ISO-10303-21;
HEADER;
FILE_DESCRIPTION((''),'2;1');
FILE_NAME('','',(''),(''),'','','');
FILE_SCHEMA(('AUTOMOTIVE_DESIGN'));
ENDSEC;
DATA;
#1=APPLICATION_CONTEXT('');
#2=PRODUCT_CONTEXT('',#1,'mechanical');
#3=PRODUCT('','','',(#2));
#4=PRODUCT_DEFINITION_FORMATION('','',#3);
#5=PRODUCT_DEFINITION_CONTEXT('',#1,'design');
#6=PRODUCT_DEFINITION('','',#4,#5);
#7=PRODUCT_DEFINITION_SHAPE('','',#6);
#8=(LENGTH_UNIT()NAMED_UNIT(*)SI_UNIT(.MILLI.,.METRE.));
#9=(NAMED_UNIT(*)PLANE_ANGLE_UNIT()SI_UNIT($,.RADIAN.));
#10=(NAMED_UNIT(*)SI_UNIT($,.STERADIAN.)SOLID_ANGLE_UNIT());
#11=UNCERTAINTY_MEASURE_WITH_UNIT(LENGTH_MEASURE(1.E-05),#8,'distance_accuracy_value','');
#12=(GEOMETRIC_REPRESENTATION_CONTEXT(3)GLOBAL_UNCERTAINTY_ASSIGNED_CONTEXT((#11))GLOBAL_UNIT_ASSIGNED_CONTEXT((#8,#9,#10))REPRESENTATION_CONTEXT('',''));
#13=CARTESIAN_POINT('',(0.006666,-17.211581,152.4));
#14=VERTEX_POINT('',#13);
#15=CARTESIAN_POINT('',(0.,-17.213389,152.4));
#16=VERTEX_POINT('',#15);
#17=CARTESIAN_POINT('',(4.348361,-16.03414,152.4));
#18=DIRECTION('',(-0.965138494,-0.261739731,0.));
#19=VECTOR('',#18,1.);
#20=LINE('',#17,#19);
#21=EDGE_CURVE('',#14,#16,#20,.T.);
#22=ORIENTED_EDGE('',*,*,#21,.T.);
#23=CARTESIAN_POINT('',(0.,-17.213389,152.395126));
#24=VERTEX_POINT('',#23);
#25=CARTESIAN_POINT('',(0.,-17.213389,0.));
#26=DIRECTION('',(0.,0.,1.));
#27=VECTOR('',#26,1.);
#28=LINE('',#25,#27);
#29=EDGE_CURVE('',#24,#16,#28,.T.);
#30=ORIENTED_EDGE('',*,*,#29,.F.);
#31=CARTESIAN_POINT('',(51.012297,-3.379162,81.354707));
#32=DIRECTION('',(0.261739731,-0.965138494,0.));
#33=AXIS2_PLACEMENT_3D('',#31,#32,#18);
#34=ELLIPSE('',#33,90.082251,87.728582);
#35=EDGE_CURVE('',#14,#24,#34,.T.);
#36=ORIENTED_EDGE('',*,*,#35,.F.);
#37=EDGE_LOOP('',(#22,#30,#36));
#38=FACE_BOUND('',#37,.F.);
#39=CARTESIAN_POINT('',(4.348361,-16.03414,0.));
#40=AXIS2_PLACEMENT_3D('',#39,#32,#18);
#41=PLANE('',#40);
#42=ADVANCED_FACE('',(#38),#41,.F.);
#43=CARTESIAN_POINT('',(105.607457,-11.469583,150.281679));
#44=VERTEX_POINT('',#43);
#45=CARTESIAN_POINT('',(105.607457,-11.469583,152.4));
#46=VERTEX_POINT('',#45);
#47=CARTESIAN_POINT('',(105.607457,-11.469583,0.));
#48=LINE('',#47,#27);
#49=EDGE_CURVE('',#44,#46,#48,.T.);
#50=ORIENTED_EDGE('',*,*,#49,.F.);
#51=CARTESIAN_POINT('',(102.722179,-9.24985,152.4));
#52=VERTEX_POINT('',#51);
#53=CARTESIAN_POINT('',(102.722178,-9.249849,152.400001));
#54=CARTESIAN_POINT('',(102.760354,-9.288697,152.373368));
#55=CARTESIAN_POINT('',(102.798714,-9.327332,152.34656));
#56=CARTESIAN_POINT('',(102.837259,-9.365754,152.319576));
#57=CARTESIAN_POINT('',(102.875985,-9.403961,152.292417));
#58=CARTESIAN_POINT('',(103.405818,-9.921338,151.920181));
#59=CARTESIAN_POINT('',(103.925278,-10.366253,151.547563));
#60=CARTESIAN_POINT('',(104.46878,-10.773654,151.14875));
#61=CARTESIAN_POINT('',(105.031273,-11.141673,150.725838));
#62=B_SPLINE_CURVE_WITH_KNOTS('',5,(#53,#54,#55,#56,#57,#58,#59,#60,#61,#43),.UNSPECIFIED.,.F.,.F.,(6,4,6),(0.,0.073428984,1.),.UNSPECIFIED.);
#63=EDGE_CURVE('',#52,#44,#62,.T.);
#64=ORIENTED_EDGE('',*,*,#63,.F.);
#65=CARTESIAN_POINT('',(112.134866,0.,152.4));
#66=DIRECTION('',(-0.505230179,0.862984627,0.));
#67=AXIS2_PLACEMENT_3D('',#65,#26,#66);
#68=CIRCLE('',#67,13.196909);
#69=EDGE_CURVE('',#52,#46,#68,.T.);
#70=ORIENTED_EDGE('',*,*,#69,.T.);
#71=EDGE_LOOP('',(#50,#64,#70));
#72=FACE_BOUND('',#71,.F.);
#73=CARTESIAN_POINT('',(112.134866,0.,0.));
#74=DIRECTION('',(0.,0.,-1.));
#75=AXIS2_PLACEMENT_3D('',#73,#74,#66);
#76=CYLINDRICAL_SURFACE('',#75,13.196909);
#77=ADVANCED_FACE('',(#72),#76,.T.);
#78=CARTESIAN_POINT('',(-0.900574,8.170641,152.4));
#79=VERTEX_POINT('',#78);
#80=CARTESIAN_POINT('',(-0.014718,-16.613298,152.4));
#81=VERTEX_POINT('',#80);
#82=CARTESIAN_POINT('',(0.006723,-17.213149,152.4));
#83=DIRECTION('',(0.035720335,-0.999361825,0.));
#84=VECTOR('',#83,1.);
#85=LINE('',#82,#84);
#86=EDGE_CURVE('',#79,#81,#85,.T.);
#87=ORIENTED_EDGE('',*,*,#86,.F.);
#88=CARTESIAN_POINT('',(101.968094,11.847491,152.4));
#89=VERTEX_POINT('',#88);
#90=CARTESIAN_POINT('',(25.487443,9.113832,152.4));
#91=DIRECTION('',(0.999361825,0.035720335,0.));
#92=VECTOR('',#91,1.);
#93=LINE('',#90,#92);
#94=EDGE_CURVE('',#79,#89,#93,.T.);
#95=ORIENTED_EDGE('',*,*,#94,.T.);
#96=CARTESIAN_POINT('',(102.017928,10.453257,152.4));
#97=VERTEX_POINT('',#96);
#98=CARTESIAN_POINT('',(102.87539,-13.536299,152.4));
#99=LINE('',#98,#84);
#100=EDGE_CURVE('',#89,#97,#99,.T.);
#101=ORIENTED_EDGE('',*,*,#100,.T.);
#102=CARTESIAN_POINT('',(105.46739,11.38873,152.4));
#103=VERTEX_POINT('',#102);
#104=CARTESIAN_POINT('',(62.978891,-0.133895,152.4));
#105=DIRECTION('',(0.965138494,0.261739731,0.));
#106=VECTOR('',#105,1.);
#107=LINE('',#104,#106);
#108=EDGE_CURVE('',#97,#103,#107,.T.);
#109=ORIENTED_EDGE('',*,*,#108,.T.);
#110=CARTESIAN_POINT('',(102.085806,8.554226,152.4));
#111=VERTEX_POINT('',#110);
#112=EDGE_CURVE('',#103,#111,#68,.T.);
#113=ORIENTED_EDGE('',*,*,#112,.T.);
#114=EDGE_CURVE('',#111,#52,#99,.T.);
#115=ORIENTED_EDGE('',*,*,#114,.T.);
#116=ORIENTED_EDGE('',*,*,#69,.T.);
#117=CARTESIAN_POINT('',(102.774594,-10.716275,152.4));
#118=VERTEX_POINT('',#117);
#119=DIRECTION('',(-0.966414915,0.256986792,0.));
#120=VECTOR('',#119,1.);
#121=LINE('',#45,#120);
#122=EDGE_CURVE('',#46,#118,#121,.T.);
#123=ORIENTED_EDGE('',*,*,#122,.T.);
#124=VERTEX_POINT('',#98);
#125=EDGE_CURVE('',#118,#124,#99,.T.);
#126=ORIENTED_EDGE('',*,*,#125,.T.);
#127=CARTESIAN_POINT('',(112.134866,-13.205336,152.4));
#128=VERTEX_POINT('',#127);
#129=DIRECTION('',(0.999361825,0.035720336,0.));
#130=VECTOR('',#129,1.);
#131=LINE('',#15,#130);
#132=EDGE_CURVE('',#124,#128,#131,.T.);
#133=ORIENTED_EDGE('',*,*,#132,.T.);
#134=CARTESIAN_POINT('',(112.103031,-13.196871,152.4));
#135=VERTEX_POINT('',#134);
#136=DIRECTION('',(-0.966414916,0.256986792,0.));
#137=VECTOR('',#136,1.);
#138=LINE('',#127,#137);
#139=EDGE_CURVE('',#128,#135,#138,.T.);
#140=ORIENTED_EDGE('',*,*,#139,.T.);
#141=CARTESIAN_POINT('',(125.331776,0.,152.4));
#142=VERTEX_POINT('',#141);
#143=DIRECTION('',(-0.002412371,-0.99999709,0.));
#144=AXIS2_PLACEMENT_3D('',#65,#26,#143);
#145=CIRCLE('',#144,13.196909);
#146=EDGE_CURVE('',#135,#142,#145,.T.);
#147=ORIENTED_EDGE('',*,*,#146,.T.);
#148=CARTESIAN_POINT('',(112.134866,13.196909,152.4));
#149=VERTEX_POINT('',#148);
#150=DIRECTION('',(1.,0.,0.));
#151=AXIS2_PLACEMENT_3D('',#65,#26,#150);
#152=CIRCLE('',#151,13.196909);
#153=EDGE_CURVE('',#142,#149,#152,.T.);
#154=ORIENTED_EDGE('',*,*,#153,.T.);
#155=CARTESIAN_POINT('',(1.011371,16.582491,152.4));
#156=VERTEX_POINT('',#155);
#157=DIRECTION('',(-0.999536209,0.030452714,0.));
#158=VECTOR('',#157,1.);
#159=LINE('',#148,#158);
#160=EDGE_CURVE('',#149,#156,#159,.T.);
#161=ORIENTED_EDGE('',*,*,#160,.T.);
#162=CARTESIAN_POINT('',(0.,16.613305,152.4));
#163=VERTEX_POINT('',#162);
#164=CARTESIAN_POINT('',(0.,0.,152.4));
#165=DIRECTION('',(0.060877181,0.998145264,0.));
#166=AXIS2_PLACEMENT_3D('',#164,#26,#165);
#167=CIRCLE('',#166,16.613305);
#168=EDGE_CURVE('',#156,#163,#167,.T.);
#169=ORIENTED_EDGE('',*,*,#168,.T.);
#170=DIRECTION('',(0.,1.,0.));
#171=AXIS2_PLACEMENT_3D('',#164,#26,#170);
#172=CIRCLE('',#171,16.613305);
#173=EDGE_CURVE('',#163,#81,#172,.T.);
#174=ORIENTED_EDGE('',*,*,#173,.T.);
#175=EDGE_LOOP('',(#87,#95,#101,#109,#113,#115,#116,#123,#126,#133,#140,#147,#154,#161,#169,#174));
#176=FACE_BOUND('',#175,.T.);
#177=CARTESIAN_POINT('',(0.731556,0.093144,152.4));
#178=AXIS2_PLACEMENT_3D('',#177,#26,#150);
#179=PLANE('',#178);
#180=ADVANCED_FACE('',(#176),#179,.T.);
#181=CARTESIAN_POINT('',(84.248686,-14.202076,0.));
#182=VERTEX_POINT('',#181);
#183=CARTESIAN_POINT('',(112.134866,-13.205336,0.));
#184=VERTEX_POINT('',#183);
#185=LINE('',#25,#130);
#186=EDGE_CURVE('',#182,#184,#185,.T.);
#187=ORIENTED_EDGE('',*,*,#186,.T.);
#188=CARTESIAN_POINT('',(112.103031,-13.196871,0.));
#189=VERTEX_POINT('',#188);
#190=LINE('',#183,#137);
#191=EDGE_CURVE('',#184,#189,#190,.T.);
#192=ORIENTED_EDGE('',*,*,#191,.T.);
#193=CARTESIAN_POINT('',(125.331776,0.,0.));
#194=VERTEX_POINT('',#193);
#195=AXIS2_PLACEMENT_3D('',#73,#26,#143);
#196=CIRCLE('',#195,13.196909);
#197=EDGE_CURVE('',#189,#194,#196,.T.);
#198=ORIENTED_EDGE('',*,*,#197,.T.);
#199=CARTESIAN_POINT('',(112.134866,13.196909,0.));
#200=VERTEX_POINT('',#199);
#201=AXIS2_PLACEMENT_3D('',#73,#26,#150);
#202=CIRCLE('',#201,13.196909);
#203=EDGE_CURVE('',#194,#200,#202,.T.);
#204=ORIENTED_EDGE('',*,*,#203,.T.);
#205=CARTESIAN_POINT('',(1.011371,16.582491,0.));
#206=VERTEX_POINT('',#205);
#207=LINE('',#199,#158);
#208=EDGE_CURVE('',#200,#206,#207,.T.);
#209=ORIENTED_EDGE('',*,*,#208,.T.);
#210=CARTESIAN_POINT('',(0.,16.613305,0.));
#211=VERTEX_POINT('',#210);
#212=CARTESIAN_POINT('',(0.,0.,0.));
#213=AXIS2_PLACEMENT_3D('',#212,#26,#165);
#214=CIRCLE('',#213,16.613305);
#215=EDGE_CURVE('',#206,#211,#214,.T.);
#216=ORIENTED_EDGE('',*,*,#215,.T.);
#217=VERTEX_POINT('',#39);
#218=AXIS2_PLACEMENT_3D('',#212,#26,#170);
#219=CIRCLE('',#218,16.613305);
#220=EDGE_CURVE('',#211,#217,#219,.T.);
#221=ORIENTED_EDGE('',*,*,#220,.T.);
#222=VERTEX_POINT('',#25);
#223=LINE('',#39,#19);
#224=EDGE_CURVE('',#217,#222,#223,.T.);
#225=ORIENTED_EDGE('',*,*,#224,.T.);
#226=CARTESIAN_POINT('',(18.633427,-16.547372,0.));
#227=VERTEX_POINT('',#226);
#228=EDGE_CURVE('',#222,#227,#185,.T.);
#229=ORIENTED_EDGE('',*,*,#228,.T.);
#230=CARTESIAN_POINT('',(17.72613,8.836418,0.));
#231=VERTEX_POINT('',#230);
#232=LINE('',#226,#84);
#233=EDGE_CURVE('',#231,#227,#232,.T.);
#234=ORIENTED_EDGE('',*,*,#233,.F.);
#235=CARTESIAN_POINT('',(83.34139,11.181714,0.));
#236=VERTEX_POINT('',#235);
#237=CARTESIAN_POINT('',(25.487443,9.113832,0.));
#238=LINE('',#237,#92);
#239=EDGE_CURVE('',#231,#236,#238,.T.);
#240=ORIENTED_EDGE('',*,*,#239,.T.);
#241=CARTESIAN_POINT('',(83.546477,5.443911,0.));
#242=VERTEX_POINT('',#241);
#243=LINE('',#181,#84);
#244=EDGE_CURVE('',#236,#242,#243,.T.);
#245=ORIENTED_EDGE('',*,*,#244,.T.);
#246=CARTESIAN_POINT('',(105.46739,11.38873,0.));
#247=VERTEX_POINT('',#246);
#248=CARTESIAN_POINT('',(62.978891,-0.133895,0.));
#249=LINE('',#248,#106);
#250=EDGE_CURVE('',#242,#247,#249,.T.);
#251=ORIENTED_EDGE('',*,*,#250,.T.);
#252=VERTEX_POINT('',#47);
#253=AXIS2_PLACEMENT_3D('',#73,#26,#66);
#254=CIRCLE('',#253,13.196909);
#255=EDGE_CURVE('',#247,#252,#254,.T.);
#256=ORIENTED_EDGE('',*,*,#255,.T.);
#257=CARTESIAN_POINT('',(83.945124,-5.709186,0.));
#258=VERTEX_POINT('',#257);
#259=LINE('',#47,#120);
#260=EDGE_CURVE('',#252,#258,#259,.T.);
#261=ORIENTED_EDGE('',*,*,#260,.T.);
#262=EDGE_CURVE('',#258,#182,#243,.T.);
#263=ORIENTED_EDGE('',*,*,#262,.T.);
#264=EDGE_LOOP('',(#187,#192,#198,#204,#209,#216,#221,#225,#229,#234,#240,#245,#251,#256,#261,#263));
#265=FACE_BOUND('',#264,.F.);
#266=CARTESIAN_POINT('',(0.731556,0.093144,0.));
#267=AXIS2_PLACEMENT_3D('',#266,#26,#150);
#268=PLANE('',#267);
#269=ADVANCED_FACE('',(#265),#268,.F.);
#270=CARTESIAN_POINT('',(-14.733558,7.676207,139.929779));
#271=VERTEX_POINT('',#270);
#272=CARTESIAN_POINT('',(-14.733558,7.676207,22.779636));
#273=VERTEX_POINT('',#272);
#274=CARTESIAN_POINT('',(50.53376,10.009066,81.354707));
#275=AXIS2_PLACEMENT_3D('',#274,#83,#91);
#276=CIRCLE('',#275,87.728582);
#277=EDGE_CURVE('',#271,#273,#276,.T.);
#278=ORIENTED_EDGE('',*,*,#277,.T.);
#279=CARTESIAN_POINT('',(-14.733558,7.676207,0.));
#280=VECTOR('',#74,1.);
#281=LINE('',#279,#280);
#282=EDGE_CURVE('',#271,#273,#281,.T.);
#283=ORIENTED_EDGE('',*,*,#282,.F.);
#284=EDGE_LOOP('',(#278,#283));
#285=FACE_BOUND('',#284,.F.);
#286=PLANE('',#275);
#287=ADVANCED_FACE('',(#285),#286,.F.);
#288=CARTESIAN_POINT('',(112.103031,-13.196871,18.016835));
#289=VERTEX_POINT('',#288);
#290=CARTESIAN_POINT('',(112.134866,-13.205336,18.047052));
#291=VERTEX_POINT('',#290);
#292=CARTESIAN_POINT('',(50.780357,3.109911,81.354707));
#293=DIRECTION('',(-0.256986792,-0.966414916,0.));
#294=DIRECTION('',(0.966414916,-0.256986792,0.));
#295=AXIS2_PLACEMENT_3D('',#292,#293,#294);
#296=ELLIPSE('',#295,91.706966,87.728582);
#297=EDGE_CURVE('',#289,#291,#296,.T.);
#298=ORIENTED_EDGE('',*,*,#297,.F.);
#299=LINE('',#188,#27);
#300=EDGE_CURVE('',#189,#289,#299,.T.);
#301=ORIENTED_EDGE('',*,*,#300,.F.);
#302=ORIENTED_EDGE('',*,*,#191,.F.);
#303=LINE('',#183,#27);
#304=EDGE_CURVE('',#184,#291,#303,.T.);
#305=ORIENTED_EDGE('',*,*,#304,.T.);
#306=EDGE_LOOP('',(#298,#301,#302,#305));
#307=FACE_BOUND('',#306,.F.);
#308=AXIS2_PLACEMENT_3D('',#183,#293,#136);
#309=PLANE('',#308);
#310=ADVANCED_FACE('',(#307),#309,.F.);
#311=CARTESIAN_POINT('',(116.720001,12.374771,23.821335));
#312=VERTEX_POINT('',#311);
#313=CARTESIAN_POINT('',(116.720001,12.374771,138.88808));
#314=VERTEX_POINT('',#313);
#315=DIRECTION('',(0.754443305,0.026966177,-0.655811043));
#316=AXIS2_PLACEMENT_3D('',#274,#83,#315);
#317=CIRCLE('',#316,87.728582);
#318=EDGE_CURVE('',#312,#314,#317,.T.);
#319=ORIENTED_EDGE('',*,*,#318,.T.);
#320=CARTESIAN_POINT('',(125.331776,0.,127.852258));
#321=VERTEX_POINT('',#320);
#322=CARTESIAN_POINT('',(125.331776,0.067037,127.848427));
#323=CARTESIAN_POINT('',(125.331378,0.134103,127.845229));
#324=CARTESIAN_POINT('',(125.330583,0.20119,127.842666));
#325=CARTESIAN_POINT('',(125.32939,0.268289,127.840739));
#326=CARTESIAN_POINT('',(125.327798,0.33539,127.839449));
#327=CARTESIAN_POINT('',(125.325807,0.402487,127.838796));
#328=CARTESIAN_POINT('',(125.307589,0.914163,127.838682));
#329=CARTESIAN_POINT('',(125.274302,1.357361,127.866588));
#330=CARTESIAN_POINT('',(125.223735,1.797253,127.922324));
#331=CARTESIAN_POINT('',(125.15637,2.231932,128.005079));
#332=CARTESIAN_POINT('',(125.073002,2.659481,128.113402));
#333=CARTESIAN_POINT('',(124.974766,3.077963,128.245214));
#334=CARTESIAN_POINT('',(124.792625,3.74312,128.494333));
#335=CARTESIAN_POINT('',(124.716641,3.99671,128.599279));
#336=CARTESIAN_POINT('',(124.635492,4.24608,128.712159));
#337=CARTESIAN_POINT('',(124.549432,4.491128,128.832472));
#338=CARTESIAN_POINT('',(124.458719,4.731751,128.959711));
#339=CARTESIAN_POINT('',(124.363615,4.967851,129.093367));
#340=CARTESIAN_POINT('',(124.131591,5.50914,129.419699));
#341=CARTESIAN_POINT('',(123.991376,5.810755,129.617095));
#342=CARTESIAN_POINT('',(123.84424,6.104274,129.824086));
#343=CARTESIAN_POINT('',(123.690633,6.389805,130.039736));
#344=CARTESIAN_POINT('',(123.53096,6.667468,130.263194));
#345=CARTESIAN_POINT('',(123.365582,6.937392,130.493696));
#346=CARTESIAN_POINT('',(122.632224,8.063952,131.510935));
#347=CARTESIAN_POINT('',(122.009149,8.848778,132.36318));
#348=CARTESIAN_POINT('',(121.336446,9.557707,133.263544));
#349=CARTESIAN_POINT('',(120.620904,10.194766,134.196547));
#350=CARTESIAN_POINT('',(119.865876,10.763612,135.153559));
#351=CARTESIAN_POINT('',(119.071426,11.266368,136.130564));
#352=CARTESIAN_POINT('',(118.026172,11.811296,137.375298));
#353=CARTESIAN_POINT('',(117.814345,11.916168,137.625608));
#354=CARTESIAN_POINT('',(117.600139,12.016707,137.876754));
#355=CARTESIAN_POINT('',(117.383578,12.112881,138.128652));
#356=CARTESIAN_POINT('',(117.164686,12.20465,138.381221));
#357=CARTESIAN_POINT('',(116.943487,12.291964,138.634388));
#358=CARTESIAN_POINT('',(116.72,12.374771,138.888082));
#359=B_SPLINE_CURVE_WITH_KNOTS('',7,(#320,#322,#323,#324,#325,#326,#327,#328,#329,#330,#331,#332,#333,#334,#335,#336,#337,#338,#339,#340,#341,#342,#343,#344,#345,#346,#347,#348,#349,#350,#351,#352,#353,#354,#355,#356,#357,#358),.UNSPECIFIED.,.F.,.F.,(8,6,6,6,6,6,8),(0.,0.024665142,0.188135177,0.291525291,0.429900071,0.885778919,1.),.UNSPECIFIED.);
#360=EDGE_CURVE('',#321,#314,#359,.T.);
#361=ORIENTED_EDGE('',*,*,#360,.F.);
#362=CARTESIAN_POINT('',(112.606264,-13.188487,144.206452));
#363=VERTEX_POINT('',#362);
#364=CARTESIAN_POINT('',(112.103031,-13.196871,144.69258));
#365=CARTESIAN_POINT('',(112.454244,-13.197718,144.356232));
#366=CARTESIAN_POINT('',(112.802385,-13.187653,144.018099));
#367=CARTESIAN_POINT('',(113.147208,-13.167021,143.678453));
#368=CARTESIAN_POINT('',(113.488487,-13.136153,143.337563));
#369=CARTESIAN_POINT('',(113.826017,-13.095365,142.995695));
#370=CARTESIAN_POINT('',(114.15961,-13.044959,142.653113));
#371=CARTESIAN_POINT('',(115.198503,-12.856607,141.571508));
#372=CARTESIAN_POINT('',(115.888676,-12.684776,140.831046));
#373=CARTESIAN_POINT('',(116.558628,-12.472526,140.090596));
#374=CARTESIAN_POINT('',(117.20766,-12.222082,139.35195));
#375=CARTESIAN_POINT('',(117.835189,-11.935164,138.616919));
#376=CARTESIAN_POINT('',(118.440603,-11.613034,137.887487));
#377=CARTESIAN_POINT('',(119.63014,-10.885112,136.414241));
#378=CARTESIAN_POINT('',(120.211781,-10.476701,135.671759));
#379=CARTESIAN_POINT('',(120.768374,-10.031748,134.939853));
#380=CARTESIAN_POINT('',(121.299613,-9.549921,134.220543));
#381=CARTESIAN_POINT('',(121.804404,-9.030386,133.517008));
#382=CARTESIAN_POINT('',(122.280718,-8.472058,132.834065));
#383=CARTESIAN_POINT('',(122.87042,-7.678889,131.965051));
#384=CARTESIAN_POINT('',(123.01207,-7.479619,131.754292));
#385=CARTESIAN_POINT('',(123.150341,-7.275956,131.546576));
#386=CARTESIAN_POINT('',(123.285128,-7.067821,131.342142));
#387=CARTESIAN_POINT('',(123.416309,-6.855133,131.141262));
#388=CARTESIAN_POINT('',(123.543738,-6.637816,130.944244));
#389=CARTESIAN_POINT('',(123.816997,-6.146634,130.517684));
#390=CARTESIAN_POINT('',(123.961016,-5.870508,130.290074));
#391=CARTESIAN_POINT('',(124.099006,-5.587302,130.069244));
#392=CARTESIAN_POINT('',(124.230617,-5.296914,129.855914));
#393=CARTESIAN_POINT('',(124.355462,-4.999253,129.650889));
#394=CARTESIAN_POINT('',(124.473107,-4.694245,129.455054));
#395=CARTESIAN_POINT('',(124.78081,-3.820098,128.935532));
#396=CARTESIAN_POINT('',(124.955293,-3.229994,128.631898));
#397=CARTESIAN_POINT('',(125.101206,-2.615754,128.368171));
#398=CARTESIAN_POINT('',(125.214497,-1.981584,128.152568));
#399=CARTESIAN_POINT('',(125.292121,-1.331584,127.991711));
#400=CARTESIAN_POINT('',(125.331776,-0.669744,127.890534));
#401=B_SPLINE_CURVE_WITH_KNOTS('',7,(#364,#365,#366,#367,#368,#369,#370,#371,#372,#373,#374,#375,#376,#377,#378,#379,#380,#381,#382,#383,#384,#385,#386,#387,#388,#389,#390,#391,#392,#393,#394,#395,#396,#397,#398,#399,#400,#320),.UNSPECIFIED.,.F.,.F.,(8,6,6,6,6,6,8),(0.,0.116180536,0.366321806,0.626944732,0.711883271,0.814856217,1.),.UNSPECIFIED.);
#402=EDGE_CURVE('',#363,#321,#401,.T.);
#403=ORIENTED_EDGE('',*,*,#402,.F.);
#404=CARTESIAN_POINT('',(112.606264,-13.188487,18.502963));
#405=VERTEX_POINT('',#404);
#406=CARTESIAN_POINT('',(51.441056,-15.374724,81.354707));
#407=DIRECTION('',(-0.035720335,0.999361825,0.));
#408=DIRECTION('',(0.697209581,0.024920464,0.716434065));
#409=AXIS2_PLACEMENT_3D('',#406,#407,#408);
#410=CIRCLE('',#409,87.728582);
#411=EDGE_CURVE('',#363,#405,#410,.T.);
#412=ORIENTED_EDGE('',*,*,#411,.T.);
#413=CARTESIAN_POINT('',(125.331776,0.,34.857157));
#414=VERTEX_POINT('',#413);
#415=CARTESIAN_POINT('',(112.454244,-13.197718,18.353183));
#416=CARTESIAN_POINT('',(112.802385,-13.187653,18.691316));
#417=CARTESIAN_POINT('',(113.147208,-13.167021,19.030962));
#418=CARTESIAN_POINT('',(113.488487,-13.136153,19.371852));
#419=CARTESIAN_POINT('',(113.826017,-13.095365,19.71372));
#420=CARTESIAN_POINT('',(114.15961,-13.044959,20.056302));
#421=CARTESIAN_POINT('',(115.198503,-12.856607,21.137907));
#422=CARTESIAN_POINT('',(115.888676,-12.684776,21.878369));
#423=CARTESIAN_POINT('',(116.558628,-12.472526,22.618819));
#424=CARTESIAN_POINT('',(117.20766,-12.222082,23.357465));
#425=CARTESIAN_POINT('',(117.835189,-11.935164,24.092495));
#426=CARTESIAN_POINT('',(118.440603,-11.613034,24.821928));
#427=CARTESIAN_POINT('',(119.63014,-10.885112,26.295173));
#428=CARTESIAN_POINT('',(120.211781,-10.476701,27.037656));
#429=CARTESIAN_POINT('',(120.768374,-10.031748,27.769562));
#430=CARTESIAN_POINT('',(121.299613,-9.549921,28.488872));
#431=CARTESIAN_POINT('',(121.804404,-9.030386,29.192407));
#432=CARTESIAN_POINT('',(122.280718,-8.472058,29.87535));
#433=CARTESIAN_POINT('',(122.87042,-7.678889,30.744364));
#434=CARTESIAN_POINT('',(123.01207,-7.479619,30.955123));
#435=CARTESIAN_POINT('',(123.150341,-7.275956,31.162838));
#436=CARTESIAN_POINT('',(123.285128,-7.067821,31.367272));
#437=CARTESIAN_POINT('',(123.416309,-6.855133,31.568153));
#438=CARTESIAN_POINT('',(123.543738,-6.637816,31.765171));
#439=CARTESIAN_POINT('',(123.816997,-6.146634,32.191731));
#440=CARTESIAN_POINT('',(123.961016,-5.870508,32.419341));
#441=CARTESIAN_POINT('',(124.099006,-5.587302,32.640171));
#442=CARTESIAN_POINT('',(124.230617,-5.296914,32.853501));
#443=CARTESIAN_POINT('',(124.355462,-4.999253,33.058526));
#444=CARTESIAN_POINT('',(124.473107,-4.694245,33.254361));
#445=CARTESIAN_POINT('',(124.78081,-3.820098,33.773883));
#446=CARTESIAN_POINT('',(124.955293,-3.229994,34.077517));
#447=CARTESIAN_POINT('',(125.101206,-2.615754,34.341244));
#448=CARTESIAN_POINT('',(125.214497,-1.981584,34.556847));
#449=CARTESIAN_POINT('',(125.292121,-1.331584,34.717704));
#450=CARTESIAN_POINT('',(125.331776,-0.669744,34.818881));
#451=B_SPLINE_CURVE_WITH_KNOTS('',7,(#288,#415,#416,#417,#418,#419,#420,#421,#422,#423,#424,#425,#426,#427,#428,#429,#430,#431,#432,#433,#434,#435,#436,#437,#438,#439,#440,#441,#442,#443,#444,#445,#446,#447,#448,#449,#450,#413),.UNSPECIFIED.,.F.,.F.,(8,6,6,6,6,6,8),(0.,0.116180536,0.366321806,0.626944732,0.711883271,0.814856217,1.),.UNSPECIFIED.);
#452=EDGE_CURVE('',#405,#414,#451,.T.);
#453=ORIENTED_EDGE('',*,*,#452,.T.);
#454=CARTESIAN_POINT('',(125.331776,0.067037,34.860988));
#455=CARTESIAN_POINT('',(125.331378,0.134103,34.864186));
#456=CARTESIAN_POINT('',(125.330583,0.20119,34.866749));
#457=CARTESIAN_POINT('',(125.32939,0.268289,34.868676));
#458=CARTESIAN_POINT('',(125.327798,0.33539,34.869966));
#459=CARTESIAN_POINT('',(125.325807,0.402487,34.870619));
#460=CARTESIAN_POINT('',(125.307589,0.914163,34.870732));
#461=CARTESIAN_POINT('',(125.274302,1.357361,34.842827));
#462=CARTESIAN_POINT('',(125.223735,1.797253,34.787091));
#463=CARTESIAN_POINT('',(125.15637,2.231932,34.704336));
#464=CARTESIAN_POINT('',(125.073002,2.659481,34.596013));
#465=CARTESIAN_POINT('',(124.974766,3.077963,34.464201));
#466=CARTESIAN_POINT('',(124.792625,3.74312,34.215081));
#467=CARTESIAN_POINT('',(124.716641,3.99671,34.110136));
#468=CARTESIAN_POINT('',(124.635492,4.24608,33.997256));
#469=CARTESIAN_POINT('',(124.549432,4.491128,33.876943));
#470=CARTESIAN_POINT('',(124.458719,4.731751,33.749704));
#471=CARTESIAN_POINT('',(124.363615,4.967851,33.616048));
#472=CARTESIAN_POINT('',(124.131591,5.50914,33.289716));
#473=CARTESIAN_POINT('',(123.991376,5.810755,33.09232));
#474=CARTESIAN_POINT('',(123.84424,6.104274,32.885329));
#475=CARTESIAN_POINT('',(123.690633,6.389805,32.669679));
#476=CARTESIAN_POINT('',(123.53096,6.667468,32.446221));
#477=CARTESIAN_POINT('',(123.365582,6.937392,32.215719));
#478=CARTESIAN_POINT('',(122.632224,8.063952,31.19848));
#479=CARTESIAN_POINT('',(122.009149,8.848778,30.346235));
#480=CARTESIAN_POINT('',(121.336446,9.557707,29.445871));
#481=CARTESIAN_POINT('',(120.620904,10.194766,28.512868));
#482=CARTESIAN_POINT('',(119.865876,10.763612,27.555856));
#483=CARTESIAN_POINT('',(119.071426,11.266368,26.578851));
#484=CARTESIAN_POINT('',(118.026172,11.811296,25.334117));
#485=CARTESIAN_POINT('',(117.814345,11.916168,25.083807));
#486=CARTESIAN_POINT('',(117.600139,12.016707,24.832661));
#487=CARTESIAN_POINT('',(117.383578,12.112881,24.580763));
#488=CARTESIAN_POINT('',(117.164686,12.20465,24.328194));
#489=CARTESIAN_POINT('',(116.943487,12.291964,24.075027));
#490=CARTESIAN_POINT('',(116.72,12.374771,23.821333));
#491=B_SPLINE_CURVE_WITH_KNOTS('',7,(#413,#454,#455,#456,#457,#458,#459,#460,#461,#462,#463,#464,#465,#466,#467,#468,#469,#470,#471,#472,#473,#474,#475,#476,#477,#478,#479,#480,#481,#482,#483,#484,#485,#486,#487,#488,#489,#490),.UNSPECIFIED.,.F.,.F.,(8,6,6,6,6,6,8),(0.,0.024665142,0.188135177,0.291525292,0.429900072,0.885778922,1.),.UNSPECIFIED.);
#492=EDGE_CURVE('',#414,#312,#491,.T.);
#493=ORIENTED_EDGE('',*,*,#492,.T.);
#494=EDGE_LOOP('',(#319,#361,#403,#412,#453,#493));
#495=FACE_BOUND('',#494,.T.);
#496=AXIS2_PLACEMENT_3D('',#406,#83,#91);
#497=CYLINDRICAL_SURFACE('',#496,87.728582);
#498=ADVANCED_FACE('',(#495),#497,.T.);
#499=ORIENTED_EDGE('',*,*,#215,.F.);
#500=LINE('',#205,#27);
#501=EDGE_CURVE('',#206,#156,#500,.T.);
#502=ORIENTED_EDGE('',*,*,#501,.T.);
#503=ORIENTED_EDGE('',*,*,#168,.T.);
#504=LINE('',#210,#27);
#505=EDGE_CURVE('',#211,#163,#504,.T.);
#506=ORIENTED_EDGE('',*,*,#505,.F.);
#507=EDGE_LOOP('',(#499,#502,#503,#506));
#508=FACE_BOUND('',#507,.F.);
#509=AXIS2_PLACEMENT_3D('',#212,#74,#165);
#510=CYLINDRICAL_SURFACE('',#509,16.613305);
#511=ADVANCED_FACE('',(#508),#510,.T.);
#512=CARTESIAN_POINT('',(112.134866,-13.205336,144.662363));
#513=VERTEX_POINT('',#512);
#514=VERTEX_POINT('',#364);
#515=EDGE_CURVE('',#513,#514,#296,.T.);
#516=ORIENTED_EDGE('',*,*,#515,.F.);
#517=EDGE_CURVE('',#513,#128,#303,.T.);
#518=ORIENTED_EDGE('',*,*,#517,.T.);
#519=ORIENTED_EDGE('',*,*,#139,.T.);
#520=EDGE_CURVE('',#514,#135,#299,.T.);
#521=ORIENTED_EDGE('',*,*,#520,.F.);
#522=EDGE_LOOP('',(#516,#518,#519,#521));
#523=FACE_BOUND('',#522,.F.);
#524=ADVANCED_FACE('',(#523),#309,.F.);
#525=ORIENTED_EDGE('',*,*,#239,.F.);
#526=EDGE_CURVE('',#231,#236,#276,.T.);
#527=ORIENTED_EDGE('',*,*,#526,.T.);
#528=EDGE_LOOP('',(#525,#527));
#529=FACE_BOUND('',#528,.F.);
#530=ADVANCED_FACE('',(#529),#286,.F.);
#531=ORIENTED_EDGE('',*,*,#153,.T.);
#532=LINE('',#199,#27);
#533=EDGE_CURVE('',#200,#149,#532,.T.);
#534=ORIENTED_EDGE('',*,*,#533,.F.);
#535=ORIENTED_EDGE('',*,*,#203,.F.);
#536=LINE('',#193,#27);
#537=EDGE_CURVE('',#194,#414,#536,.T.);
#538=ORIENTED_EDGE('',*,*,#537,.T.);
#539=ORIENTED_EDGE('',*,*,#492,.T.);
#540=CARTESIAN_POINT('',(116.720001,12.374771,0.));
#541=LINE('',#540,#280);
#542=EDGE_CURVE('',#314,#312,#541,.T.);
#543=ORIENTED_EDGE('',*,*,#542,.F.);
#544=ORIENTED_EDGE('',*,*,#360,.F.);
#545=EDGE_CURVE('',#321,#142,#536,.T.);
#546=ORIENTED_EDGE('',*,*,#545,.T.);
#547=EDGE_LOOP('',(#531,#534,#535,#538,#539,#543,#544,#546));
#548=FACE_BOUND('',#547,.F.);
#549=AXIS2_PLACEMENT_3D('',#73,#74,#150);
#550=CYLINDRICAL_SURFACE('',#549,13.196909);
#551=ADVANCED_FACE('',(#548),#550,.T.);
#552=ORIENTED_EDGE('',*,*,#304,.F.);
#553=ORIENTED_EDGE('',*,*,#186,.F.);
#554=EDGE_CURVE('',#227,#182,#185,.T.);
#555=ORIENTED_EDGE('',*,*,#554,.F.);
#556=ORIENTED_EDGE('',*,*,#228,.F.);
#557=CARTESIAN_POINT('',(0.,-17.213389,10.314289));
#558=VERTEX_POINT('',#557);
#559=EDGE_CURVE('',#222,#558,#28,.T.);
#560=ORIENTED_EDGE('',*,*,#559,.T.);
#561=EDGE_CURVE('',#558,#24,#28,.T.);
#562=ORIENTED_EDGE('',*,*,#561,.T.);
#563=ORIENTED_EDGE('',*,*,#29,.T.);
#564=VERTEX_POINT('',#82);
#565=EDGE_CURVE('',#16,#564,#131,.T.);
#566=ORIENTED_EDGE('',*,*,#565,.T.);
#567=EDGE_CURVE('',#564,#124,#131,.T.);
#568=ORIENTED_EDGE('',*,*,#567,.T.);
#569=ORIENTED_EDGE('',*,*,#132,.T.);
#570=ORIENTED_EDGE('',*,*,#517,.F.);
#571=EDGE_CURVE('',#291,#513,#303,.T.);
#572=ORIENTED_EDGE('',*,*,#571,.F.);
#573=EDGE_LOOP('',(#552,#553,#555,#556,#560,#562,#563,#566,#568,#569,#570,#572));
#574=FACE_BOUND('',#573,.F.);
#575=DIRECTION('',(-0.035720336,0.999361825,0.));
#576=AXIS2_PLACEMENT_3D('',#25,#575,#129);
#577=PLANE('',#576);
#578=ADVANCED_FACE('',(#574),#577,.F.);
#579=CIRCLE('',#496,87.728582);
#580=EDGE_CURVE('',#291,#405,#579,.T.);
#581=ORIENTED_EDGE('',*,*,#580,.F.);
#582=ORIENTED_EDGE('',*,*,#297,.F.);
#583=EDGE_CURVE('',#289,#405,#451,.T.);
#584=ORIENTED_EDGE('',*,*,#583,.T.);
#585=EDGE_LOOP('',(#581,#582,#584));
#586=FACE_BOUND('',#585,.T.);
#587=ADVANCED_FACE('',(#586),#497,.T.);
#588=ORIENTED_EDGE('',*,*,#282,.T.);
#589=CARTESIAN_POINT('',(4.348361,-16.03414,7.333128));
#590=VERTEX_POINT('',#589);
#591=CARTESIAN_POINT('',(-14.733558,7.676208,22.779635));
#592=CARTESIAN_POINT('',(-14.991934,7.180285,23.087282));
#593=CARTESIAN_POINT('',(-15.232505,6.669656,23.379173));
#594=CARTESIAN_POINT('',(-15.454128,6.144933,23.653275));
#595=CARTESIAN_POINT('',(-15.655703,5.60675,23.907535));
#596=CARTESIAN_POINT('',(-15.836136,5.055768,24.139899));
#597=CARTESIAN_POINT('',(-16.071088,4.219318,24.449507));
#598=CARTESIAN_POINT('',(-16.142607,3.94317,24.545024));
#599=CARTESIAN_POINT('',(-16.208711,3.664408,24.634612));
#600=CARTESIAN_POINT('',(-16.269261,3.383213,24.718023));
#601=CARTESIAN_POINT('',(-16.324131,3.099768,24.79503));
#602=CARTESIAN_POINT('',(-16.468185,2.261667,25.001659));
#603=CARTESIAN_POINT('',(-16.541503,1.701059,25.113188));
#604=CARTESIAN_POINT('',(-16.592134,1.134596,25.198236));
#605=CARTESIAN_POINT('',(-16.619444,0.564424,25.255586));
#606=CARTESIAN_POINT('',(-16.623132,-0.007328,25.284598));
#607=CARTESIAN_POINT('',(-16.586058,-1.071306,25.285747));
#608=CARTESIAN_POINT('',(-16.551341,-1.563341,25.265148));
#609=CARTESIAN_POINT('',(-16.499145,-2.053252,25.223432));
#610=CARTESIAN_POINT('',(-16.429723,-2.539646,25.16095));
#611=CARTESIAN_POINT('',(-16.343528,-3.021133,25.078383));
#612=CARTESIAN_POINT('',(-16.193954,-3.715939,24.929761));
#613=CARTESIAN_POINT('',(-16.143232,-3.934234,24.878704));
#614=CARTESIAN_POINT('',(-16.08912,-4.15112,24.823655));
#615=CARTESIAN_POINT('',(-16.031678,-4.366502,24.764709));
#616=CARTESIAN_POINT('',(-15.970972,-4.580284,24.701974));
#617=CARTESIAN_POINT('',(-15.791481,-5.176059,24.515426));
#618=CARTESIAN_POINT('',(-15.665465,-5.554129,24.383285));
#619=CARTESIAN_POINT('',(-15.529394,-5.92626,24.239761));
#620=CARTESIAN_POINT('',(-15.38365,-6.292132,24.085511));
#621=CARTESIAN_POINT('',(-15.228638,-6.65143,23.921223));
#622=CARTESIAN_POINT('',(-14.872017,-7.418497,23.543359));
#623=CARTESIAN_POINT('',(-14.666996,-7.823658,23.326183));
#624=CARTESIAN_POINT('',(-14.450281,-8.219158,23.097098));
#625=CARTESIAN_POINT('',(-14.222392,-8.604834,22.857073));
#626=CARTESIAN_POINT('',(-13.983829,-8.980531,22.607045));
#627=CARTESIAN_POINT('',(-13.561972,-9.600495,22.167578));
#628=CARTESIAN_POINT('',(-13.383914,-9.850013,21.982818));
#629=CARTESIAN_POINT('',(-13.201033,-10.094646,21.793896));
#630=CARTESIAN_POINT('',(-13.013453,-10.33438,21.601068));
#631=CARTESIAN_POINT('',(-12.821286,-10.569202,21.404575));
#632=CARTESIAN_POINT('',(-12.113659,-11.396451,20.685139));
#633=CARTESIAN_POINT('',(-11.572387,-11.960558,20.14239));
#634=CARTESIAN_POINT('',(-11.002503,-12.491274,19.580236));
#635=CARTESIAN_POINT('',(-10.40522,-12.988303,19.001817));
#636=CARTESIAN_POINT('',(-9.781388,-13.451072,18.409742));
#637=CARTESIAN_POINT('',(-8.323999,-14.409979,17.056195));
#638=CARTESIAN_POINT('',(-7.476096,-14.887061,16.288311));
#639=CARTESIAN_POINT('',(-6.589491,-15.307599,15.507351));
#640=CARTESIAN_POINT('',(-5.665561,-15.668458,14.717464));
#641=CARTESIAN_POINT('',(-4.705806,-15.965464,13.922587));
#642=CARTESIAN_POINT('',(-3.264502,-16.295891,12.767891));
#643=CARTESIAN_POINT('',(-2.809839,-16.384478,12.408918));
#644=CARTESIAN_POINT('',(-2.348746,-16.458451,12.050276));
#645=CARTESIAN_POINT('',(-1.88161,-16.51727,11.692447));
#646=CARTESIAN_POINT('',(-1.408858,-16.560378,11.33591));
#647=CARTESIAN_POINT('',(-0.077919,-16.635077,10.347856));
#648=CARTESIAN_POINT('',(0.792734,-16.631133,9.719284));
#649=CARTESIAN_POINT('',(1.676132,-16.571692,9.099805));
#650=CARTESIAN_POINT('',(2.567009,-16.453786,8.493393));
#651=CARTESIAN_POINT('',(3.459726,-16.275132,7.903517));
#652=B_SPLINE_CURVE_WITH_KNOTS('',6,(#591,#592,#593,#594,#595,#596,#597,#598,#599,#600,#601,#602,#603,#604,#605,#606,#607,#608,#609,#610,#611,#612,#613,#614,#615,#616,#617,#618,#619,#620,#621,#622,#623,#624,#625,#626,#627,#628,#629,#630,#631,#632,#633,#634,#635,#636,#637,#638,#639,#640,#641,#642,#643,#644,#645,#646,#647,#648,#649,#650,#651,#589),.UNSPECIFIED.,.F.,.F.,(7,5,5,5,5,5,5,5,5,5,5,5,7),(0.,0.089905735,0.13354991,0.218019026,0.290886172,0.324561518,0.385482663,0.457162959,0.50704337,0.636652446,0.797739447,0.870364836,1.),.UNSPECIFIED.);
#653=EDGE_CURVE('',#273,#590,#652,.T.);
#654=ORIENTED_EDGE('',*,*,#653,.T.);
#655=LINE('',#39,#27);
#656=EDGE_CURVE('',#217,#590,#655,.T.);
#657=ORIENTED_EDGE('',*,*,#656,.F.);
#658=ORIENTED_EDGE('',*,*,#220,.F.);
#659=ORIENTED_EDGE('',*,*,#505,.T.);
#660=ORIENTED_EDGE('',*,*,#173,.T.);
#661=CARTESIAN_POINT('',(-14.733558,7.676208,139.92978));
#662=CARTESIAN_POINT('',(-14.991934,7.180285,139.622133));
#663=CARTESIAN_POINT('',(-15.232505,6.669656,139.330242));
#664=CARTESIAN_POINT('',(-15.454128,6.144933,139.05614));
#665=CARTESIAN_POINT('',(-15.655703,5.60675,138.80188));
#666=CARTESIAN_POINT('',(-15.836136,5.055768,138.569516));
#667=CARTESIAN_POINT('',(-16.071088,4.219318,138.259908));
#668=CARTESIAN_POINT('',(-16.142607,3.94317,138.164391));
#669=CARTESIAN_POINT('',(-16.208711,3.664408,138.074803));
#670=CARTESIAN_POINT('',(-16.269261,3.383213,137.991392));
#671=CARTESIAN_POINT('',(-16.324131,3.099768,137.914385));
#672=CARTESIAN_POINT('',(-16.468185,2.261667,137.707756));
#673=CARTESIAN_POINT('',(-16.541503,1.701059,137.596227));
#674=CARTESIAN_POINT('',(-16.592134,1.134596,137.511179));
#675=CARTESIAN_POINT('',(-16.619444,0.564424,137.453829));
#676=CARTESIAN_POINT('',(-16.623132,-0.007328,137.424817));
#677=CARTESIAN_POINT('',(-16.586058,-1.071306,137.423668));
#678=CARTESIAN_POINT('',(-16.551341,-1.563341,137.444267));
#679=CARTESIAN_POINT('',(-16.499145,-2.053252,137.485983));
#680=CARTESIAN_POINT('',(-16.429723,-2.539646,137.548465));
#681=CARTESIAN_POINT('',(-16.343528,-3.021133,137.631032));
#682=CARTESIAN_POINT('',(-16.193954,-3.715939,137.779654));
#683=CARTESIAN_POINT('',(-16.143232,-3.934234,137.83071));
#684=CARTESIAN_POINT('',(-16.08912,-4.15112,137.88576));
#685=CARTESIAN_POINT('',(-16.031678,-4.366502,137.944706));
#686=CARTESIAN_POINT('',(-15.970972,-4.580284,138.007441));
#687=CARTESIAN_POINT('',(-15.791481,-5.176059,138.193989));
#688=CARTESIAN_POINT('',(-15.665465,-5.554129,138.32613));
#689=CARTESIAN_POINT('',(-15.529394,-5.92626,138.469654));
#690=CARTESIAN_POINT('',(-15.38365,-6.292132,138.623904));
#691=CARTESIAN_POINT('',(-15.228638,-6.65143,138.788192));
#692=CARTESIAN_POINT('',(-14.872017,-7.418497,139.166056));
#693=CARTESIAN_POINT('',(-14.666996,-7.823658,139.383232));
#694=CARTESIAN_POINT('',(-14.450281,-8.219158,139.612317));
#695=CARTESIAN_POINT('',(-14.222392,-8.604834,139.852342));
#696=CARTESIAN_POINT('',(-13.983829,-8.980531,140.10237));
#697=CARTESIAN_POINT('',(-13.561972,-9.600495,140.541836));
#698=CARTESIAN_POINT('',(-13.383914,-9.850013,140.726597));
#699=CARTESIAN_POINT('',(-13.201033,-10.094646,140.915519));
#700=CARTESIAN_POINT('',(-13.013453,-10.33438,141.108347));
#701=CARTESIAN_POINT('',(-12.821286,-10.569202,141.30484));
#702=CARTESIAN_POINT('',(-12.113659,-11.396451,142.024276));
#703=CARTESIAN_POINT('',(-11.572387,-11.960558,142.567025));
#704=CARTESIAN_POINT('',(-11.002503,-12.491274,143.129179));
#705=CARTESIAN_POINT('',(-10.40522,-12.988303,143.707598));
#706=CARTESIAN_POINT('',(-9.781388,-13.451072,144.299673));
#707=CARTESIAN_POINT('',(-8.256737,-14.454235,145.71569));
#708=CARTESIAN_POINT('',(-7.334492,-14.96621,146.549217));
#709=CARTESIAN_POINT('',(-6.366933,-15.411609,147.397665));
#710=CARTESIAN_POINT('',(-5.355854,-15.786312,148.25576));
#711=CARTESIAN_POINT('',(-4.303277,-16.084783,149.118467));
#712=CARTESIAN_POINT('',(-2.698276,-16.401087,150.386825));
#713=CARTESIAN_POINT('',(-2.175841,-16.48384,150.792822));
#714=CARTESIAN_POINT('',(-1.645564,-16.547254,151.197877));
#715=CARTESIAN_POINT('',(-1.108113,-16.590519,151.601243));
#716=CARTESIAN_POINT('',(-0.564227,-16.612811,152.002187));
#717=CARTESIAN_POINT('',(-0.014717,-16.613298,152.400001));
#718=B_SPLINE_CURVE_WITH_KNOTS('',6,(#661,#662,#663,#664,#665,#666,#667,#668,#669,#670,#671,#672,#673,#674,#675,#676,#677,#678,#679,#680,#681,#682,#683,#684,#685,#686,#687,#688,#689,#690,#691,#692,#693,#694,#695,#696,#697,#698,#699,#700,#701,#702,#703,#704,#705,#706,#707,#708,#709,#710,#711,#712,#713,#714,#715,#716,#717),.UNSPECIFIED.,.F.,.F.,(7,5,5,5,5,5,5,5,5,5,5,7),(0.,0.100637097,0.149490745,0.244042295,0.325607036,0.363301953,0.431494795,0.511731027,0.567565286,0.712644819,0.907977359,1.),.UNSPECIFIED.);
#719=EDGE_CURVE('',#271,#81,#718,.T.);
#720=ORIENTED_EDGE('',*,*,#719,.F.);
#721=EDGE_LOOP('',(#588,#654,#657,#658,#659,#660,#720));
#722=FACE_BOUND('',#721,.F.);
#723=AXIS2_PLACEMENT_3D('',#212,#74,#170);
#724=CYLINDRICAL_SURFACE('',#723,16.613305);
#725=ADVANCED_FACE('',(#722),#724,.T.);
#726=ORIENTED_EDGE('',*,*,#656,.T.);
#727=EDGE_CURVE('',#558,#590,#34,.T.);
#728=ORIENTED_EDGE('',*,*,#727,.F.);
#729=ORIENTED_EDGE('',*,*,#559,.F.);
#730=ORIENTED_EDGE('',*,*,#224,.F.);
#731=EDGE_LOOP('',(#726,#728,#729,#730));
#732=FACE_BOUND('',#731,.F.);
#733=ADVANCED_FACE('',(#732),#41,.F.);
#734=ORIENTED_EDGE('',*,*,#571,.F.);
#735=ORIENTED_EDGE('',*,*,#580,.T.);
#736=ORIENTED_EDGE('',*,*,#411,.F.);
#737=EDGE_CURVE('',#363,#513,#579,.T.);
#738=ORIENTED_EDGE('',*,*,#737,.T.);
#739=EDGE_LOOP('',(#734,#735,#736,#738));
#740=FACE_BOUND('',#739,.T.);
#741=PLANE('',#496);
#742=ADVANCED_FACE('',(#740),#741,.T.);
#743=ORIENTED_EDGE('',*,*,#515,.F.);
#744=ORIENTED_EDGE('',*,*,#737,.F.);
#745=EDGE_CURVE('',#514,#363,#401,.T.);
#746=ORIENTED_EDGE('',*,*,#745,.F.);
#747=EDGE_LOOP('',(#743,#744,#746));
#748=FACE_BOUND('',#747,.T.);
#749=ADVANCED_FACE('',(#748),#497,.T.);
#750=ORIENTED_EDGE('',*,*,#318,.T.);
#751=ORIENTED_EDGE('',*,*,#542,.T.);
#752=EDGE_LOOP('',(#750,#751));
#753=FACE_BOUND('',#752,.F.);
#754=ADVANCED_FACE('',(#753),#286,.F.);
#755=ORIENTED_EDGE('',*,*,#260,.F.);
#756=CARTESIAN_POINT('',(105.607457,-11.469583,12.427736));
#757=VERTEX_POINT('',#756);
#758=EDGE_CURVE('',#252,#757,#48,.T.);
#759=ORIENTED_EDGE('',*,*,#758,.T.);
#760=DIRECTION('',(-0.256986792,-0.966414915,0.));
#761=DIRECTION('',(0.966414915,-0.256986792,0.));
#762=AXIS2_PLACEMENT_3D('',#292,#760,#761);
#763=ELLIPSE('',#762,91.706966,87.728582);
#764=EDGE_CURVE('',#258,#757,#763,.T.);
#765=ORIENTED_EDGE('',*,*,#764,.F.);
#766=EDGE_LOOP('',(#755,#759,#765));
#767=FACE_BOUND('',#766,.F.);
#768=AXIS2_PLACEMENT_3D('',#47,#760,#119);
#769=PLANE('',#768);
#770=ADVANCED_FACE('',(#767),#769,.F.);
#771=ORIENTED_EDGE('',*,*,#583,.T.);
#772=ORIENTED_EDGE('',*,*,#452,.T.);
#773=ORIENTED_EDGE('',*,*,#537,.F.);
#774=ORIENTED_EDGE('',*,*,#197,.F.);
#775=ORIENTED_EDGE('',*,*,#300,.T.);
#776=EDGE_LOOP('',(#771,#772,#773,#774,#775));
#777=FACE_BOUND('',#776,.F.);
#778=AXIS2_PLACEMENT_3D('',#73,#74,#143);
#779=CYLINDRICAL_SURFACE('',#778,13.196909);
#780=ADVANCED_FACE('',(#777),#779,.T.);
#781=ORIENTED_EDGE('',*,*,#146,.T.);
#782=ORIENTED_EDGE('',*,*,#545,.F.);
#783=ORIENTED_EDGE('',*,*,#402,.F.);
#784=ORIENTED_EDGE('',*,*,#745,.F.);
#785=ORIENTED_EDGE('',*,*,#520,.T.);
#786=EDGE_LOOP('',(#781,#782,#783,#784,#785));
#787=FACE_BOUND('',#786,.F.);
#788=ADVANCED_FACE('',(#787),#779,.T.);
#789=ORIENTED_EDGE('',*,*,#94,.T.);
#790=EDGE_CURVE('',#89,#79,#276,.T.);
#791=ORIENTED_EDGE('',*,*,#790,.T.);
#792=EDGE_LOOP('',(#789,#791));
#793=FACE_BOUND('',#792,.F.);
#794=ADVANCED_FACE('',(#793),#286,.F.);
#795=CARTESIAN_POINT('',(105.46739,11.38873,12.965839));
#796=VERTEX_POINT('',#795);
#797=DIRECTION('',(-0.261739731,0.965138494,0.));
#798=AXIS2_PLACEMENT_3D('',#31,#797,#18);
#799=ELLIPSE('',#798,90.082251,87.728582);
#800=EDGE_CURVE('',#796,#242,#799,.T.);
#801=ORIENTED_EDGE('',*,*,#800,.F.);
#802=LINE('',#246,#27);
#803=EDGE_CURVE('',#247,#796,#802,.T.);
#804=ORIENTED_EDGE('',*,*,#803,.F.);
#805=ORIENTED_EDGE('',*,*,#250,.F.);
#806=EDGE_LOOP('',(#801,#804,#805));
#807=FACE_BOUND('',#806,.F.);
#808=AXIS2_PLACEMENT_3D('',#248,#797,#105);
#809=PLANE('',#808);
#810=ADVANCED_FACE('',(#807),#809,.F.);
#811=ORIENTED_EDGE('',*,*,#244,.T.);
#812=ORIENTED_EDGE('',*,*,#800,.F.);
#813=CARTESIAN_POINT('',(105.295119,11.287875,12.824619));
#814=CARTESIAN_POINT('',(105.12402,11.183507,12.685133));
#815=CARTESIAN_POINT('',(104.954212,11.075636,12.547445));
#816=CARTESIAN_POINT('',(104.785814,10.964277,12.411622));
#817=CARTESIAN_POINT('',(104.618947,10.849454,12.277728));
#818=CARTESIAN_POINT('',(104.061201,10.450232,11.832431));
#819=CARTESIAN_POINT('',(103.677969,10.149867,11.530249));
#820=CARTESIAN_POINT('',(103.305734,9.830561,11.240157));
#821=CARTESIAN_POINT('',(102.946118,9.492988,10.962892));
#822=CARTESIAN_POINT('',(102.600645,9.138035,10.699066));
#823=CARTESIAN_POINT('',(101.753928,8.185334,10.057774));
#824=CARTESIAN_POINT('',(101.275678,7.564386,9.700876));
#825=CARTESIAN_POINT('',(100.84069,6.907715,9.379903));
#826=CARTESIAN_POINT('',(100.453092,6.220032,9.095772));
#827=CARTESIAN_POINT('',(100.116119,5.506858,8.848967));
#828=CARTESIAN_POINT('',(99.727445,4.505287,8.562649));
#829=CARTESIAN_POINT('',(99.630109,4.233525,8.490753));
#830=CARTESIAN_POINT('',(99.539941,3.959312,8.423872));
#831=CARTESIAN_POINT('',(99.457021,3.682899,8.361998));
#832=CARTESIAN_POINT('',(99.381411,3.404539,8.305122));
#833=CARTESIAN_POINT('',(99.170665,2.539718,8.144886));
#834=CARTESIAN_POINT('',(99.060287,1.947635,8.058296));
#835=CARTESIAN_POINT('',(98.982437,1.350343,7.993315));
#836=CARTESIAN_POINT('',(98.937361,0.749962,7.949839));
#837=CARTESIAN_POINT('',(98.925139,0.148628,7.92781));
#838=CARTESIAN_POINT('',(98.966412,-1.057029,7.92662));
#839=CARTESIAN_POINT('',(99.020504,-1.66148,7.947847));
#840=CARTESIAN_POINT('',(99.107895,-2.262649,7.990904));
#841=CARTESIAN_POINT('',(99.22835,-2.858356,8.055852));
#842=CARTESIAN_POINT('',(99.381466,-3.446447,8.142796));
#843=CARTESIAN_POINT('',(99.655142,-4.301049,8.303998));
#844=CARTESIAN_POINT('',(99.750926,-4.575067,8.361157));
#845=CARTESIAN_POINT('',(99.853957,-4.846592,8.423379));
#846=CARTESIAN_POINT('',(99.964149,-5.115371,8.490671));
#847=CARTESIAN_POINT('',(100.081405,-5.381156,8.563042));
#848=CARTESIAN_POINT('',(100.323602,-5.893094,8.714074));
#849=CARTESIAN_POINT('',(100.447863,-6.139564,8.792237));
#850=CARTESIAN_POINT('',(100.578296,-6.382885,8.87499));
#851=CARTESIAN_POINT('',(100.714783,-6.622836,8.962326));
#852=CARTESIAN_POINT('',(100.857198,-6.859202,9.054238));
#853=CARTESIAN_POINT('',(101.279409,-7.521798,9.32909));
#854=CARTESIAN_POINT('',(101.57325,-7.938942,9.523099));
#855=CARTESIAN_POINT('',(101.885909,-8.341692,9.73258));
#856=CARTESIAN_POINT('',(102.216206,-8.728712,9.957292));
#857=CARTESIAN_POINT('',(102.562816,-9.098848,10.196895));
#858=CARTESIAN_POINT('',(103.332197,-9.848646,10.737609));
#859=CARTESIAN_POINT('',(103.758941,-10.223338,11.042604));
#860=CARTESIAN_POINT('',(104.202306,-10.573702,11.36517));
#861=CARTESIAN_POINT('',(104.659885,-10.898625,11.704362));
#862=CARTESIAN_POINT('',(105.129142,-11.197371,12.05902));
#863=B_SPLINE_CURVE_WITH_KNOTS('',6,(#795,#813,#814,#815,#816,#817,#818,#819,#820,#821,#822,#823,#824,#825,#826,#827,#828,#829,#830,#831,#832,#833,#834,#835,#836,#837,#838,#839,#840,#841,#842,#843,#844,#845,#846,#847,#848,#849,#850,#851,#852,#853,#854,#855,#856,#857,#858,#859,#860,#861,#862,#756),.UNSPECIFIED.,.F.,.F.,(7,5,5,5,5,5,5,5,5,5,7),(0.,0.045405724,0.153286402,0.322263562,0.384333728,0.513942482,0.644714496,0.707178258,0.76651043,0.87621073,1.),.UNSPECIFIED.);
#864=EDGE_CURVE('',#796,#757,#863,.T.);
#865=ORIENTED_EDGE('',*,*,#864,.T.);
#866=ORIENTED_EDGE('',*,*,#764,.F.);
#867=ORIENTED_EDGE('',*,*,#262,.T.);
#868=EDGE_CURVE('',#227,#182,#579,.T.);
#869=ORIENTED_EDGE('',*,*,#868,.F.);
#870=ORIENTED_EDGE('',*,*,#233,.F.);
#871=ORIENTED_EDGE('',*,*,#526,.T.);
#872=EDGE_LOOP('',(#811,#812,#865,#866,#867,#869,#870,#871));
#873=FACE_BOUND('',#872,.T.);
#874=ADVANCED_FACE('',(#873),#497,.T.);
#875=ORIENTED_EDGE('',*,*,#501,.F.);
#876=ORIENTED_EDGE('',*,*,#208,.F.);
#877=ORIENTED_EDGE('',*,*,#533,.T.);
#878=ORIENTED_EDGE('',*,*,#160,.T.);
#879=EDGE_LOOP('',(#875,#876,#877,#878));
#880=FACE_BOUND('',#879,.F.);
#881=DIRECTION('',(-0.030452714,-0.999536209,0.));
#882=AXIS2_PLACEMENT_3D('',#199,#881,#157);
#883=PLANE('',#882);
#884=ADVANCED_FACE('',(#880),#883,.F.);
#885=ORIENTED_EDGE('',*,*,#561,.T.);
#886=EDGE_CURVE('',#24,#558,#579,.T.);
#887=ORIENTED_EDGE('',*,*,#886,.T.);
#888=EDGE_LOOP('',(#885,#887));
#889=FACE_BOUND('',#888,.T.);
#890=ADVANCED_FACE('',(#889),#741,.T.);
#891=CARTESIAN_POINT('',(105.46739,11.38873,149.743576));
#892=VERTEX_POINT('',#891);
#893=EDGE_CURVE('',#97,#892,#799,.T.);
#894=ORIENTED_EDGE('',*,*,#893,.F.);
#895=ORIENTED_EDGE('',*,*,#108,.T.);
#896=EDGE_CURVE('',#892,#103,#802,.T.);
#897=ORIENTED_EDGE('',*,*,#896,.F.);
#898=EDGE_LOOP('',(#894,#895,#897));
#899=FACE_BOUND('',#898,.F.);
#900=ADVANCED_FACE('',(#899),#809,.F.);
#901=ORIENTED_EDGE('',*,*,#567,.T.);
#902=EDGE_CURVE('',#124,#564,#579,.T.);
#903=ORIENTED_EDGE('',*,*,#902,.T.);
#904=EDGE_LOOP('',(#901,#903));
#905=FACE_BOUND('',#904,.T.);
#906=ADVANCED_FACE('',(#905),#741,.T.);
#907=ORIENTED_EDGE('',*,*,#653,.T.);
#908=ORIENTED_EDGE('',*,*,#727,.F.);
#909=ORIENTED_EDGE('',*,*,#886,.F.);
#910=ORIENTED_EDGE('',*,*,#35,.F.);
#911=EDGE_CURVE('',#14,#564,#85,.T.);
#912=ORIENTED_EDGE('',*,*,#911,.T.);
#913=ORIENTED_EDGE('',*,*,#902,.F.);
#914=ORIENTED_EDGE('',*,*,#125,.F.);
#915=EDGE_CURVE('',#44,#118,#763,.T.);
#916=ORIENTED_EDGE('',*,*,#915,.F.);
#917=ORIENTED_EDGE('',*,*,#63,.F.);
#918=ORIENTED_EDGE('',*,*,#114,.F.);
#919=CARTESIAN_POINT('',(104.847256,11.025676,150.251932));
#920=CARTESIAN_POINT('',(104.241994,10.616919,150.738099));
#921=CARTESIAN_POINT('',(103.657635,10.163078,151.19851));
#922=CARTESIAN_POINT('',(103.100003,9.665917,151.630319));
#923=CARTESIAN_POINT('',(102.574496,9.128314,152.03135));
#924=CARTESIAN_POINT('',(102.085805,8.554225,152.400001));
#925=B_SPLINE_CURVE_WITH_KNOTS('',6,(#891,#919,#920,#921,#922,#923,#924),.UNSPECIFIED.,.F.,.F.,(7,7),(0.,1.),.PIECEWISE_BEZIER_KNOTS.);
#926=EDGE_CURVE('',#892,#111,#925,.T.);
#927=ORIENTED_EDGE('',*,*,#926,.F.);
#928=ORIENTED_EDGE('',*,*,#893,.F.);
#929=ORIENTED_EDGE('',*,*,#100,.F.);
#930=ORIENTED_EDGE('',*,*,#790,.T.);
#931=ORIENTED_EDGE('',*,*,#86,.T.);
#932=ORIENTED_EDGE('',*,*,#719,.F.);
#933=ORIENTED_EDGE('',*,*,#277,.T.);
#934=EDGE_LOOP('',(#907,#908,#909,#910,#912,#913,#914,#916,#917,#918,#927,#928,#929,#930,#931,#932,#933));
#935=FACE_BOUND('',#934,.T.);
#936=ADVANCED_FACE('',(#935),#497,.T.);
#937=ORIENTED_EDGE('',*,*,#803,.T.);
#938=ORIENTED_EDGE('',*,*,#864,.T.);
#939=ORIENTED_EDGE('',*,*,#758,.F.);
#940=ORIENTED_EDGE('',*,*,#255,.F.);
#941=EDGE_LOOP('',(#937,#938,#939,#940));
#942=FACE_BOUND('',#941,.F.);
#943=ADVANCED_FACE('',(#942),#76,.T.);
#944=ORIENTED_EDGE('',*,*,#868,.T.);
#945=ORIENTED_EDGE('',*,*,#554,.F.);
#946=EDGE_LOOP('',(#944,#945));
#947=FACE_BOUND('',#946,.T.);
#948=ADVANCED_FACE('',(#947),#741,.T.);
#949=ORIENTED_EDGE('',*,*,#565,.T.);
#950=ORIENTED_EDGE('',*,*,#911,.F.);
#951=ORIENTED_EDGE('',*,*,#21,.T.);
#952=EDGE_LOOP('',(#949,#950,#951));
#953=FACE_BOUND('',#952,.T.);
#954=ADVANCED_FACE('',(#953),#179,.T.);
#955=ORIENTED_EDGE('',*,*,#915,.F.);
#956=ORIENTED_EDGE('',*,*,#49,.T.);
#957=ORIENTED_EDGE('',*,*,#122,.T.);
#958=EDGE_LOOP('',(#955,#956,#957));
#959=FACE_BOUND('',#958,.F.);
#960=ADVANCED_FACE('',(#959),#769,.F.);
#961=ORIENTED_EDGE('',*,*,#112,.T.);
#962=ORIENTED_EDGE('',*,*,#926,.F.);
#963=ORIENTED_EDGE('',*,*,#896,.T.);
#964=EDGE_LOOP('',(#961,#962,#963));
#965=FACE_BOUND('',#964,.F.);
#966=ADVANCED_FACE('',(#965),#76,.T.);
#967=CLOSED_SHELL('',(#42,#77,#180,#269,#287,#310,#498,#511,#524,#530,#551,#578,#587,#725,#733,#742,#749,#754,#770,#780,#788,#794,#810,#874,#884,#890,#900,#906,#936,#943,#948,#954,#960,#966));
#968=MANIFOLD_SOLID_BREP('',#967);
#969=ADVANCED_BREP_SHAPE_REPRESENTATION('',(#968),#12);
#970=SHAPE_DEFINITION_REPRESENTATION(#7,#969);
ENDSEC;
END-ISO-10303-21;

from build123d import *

# Parameters (mm, degrees)
F1_DEPTH = 152.4
F2_R     = 87.7285820259
F3_DEPTH = 25.4


with BuildPart() as f1:
    # F0 (on Top) → F1 (new body)
    with BuildSketch(Plane.XY):
        with BuildLine():
            ThreePointArc((4.3483612884, -16.0341400475), (13.1955019604, -10.0935930654), (16.6133046971, 0))
            ThreePointArc((16.6133046971, 0), (14.3717652499, 8.3339220395), (8.2520234436, 14.4189459408))
            Line((8.2520234436, 14.4189459408), (0, 16.6133046971))
            ThreePointArc((0, 16.6133046971), (-16.4678770205, -2.1933808143), (4.3483612884, -16.0341400475))
        make_face()
        with BuildLine():
            ThreePointArc((8.2520234436, 14.4189459408), (14.3717652499, 8.3339220395), (16.6133046971, 0))
            ThreePointArc((16.6133046971, 0), (13.1955019604, -10.0935930654), (4.3483612884, -16.0341400475))
            Line((4.3483612884, -16.0341400475), (62.9788908632, -0.1338945288))
            Line((62.9788908632, -0.1338945288), (8.2520234436, 14.4189459408))
        make_face()
        with BuildLine():
            Line((0, 16.6133046971), (8.2520234436, 14.4189459408))
            ThreePointArc((8.2520234436, 14.4189459408), (4.7563486134, 15.9178843075), (1.0113711573, 16.5824914093))
            Line((1.0113711573, 16.5824914093), (0, 16.6133046971))
        make_face()
        with BuildLine():
            ThreePointArc((1.0113711573, 16.5824914093), (4.7563486134, 15.9178843075), (8.2520234436, 14.4189459408))
            Line((8.2520234436, 14.4189459408), (62.9788908632, -0.1338945288))
            Line((62.9788908632, -0.1338945288), (105.4673896361, 11.3887297271))
            ThreePointArc((105.4673896361, 11.3887297271), (108.6807109667, 12.7368450388), (112.1348664165, 13.1969091614))
            Line((112.1348664165, 13.1969091614), (1.0113711573, 16.5824914093))
        make_face()
        with BuildLine():
            Line((62.9788908632, -0.1338945288), (4.3483612884, -16.0341400475))
            Line((4.3483612884, -16.0341400475), (0, -17.2133893668))
            Line((0, -17.2133893668), (112.1348664165, -13.2053364746))
            Line((112.1348664165, -13.2053364746), (112.1030305721, -13.1968707614))
            ThreePointArc((112.1030305721, -13.1968707614), (108.7434350674, -12.7536898511), (105.6074566347, -11.469582946))
            Line((105.6074566347, -11.469582946), (62.9788908632, -0.1338945288))
        make_face()
        with BuildLine():
            Line((0, 16.6133046971), (1.0113711573, 16.5824914093))
            ThreePointArc((1.0113711573, 16.5824914093), (0.5059202201, 16.6055995883), (0, 16.6133046971))
        make_face()
        with BuildLine():
            Line((105.4673896361, 11.3887297271), (112.1348664165, 13.1969091614))
            ThreePointArc((112.1348664165, 13.1969091614), (108.6807109667, 12.7368450388), (105.4673896361, 11.3887297271))
        make_face()
        with BuildLine():
            ThreePointArc((125.3317755778, 0), (121.4664903752, 9.3316239587), (112.1348664165, 13.1969091614))
            Line((112.1348664165, 13.1969091614), (105.4673896361, 11.3887297271))
            ThreePointArc((105.4673896361, 11.3887297271), (98.9382050049, -0.0808640945), (105.6074566347, -11.469582946))
            Line((105.6074566347, -11.469582946), (112.1030305721, -13.1968707614))
            ThreePointArc((112.1030305721, -13.1968707614), (121.455227908, -9.3428728494), (125.3317755778, 0))
        make_face()
        with BuildLine():
            Line((112.1030305721, -13.1968707614), (105.6074566347, -11.469582946))
            ThreePointArc((105.6074566347, -11.469582946), (108.7434350674, -12.7536898511), (112.1030305721, -13.1968707614))
        make_face()
    extrude(amount=F1_DEPTH)

    # F2 (on face) → F3 (join)
    with BuildSketch(Plane(origin=(0.6144756506, -17.1914260739, 0), x_dir=(0.9993618252, 0.0357203355, 0), z_dir=(0.0357203355, -0.9993618252, 0))):
        with Locations((50.8590377867, 81.3547074795)):
            Circle(F2_R)
    extrude(amount=-F3_DEPTH)


solid = f1.part
